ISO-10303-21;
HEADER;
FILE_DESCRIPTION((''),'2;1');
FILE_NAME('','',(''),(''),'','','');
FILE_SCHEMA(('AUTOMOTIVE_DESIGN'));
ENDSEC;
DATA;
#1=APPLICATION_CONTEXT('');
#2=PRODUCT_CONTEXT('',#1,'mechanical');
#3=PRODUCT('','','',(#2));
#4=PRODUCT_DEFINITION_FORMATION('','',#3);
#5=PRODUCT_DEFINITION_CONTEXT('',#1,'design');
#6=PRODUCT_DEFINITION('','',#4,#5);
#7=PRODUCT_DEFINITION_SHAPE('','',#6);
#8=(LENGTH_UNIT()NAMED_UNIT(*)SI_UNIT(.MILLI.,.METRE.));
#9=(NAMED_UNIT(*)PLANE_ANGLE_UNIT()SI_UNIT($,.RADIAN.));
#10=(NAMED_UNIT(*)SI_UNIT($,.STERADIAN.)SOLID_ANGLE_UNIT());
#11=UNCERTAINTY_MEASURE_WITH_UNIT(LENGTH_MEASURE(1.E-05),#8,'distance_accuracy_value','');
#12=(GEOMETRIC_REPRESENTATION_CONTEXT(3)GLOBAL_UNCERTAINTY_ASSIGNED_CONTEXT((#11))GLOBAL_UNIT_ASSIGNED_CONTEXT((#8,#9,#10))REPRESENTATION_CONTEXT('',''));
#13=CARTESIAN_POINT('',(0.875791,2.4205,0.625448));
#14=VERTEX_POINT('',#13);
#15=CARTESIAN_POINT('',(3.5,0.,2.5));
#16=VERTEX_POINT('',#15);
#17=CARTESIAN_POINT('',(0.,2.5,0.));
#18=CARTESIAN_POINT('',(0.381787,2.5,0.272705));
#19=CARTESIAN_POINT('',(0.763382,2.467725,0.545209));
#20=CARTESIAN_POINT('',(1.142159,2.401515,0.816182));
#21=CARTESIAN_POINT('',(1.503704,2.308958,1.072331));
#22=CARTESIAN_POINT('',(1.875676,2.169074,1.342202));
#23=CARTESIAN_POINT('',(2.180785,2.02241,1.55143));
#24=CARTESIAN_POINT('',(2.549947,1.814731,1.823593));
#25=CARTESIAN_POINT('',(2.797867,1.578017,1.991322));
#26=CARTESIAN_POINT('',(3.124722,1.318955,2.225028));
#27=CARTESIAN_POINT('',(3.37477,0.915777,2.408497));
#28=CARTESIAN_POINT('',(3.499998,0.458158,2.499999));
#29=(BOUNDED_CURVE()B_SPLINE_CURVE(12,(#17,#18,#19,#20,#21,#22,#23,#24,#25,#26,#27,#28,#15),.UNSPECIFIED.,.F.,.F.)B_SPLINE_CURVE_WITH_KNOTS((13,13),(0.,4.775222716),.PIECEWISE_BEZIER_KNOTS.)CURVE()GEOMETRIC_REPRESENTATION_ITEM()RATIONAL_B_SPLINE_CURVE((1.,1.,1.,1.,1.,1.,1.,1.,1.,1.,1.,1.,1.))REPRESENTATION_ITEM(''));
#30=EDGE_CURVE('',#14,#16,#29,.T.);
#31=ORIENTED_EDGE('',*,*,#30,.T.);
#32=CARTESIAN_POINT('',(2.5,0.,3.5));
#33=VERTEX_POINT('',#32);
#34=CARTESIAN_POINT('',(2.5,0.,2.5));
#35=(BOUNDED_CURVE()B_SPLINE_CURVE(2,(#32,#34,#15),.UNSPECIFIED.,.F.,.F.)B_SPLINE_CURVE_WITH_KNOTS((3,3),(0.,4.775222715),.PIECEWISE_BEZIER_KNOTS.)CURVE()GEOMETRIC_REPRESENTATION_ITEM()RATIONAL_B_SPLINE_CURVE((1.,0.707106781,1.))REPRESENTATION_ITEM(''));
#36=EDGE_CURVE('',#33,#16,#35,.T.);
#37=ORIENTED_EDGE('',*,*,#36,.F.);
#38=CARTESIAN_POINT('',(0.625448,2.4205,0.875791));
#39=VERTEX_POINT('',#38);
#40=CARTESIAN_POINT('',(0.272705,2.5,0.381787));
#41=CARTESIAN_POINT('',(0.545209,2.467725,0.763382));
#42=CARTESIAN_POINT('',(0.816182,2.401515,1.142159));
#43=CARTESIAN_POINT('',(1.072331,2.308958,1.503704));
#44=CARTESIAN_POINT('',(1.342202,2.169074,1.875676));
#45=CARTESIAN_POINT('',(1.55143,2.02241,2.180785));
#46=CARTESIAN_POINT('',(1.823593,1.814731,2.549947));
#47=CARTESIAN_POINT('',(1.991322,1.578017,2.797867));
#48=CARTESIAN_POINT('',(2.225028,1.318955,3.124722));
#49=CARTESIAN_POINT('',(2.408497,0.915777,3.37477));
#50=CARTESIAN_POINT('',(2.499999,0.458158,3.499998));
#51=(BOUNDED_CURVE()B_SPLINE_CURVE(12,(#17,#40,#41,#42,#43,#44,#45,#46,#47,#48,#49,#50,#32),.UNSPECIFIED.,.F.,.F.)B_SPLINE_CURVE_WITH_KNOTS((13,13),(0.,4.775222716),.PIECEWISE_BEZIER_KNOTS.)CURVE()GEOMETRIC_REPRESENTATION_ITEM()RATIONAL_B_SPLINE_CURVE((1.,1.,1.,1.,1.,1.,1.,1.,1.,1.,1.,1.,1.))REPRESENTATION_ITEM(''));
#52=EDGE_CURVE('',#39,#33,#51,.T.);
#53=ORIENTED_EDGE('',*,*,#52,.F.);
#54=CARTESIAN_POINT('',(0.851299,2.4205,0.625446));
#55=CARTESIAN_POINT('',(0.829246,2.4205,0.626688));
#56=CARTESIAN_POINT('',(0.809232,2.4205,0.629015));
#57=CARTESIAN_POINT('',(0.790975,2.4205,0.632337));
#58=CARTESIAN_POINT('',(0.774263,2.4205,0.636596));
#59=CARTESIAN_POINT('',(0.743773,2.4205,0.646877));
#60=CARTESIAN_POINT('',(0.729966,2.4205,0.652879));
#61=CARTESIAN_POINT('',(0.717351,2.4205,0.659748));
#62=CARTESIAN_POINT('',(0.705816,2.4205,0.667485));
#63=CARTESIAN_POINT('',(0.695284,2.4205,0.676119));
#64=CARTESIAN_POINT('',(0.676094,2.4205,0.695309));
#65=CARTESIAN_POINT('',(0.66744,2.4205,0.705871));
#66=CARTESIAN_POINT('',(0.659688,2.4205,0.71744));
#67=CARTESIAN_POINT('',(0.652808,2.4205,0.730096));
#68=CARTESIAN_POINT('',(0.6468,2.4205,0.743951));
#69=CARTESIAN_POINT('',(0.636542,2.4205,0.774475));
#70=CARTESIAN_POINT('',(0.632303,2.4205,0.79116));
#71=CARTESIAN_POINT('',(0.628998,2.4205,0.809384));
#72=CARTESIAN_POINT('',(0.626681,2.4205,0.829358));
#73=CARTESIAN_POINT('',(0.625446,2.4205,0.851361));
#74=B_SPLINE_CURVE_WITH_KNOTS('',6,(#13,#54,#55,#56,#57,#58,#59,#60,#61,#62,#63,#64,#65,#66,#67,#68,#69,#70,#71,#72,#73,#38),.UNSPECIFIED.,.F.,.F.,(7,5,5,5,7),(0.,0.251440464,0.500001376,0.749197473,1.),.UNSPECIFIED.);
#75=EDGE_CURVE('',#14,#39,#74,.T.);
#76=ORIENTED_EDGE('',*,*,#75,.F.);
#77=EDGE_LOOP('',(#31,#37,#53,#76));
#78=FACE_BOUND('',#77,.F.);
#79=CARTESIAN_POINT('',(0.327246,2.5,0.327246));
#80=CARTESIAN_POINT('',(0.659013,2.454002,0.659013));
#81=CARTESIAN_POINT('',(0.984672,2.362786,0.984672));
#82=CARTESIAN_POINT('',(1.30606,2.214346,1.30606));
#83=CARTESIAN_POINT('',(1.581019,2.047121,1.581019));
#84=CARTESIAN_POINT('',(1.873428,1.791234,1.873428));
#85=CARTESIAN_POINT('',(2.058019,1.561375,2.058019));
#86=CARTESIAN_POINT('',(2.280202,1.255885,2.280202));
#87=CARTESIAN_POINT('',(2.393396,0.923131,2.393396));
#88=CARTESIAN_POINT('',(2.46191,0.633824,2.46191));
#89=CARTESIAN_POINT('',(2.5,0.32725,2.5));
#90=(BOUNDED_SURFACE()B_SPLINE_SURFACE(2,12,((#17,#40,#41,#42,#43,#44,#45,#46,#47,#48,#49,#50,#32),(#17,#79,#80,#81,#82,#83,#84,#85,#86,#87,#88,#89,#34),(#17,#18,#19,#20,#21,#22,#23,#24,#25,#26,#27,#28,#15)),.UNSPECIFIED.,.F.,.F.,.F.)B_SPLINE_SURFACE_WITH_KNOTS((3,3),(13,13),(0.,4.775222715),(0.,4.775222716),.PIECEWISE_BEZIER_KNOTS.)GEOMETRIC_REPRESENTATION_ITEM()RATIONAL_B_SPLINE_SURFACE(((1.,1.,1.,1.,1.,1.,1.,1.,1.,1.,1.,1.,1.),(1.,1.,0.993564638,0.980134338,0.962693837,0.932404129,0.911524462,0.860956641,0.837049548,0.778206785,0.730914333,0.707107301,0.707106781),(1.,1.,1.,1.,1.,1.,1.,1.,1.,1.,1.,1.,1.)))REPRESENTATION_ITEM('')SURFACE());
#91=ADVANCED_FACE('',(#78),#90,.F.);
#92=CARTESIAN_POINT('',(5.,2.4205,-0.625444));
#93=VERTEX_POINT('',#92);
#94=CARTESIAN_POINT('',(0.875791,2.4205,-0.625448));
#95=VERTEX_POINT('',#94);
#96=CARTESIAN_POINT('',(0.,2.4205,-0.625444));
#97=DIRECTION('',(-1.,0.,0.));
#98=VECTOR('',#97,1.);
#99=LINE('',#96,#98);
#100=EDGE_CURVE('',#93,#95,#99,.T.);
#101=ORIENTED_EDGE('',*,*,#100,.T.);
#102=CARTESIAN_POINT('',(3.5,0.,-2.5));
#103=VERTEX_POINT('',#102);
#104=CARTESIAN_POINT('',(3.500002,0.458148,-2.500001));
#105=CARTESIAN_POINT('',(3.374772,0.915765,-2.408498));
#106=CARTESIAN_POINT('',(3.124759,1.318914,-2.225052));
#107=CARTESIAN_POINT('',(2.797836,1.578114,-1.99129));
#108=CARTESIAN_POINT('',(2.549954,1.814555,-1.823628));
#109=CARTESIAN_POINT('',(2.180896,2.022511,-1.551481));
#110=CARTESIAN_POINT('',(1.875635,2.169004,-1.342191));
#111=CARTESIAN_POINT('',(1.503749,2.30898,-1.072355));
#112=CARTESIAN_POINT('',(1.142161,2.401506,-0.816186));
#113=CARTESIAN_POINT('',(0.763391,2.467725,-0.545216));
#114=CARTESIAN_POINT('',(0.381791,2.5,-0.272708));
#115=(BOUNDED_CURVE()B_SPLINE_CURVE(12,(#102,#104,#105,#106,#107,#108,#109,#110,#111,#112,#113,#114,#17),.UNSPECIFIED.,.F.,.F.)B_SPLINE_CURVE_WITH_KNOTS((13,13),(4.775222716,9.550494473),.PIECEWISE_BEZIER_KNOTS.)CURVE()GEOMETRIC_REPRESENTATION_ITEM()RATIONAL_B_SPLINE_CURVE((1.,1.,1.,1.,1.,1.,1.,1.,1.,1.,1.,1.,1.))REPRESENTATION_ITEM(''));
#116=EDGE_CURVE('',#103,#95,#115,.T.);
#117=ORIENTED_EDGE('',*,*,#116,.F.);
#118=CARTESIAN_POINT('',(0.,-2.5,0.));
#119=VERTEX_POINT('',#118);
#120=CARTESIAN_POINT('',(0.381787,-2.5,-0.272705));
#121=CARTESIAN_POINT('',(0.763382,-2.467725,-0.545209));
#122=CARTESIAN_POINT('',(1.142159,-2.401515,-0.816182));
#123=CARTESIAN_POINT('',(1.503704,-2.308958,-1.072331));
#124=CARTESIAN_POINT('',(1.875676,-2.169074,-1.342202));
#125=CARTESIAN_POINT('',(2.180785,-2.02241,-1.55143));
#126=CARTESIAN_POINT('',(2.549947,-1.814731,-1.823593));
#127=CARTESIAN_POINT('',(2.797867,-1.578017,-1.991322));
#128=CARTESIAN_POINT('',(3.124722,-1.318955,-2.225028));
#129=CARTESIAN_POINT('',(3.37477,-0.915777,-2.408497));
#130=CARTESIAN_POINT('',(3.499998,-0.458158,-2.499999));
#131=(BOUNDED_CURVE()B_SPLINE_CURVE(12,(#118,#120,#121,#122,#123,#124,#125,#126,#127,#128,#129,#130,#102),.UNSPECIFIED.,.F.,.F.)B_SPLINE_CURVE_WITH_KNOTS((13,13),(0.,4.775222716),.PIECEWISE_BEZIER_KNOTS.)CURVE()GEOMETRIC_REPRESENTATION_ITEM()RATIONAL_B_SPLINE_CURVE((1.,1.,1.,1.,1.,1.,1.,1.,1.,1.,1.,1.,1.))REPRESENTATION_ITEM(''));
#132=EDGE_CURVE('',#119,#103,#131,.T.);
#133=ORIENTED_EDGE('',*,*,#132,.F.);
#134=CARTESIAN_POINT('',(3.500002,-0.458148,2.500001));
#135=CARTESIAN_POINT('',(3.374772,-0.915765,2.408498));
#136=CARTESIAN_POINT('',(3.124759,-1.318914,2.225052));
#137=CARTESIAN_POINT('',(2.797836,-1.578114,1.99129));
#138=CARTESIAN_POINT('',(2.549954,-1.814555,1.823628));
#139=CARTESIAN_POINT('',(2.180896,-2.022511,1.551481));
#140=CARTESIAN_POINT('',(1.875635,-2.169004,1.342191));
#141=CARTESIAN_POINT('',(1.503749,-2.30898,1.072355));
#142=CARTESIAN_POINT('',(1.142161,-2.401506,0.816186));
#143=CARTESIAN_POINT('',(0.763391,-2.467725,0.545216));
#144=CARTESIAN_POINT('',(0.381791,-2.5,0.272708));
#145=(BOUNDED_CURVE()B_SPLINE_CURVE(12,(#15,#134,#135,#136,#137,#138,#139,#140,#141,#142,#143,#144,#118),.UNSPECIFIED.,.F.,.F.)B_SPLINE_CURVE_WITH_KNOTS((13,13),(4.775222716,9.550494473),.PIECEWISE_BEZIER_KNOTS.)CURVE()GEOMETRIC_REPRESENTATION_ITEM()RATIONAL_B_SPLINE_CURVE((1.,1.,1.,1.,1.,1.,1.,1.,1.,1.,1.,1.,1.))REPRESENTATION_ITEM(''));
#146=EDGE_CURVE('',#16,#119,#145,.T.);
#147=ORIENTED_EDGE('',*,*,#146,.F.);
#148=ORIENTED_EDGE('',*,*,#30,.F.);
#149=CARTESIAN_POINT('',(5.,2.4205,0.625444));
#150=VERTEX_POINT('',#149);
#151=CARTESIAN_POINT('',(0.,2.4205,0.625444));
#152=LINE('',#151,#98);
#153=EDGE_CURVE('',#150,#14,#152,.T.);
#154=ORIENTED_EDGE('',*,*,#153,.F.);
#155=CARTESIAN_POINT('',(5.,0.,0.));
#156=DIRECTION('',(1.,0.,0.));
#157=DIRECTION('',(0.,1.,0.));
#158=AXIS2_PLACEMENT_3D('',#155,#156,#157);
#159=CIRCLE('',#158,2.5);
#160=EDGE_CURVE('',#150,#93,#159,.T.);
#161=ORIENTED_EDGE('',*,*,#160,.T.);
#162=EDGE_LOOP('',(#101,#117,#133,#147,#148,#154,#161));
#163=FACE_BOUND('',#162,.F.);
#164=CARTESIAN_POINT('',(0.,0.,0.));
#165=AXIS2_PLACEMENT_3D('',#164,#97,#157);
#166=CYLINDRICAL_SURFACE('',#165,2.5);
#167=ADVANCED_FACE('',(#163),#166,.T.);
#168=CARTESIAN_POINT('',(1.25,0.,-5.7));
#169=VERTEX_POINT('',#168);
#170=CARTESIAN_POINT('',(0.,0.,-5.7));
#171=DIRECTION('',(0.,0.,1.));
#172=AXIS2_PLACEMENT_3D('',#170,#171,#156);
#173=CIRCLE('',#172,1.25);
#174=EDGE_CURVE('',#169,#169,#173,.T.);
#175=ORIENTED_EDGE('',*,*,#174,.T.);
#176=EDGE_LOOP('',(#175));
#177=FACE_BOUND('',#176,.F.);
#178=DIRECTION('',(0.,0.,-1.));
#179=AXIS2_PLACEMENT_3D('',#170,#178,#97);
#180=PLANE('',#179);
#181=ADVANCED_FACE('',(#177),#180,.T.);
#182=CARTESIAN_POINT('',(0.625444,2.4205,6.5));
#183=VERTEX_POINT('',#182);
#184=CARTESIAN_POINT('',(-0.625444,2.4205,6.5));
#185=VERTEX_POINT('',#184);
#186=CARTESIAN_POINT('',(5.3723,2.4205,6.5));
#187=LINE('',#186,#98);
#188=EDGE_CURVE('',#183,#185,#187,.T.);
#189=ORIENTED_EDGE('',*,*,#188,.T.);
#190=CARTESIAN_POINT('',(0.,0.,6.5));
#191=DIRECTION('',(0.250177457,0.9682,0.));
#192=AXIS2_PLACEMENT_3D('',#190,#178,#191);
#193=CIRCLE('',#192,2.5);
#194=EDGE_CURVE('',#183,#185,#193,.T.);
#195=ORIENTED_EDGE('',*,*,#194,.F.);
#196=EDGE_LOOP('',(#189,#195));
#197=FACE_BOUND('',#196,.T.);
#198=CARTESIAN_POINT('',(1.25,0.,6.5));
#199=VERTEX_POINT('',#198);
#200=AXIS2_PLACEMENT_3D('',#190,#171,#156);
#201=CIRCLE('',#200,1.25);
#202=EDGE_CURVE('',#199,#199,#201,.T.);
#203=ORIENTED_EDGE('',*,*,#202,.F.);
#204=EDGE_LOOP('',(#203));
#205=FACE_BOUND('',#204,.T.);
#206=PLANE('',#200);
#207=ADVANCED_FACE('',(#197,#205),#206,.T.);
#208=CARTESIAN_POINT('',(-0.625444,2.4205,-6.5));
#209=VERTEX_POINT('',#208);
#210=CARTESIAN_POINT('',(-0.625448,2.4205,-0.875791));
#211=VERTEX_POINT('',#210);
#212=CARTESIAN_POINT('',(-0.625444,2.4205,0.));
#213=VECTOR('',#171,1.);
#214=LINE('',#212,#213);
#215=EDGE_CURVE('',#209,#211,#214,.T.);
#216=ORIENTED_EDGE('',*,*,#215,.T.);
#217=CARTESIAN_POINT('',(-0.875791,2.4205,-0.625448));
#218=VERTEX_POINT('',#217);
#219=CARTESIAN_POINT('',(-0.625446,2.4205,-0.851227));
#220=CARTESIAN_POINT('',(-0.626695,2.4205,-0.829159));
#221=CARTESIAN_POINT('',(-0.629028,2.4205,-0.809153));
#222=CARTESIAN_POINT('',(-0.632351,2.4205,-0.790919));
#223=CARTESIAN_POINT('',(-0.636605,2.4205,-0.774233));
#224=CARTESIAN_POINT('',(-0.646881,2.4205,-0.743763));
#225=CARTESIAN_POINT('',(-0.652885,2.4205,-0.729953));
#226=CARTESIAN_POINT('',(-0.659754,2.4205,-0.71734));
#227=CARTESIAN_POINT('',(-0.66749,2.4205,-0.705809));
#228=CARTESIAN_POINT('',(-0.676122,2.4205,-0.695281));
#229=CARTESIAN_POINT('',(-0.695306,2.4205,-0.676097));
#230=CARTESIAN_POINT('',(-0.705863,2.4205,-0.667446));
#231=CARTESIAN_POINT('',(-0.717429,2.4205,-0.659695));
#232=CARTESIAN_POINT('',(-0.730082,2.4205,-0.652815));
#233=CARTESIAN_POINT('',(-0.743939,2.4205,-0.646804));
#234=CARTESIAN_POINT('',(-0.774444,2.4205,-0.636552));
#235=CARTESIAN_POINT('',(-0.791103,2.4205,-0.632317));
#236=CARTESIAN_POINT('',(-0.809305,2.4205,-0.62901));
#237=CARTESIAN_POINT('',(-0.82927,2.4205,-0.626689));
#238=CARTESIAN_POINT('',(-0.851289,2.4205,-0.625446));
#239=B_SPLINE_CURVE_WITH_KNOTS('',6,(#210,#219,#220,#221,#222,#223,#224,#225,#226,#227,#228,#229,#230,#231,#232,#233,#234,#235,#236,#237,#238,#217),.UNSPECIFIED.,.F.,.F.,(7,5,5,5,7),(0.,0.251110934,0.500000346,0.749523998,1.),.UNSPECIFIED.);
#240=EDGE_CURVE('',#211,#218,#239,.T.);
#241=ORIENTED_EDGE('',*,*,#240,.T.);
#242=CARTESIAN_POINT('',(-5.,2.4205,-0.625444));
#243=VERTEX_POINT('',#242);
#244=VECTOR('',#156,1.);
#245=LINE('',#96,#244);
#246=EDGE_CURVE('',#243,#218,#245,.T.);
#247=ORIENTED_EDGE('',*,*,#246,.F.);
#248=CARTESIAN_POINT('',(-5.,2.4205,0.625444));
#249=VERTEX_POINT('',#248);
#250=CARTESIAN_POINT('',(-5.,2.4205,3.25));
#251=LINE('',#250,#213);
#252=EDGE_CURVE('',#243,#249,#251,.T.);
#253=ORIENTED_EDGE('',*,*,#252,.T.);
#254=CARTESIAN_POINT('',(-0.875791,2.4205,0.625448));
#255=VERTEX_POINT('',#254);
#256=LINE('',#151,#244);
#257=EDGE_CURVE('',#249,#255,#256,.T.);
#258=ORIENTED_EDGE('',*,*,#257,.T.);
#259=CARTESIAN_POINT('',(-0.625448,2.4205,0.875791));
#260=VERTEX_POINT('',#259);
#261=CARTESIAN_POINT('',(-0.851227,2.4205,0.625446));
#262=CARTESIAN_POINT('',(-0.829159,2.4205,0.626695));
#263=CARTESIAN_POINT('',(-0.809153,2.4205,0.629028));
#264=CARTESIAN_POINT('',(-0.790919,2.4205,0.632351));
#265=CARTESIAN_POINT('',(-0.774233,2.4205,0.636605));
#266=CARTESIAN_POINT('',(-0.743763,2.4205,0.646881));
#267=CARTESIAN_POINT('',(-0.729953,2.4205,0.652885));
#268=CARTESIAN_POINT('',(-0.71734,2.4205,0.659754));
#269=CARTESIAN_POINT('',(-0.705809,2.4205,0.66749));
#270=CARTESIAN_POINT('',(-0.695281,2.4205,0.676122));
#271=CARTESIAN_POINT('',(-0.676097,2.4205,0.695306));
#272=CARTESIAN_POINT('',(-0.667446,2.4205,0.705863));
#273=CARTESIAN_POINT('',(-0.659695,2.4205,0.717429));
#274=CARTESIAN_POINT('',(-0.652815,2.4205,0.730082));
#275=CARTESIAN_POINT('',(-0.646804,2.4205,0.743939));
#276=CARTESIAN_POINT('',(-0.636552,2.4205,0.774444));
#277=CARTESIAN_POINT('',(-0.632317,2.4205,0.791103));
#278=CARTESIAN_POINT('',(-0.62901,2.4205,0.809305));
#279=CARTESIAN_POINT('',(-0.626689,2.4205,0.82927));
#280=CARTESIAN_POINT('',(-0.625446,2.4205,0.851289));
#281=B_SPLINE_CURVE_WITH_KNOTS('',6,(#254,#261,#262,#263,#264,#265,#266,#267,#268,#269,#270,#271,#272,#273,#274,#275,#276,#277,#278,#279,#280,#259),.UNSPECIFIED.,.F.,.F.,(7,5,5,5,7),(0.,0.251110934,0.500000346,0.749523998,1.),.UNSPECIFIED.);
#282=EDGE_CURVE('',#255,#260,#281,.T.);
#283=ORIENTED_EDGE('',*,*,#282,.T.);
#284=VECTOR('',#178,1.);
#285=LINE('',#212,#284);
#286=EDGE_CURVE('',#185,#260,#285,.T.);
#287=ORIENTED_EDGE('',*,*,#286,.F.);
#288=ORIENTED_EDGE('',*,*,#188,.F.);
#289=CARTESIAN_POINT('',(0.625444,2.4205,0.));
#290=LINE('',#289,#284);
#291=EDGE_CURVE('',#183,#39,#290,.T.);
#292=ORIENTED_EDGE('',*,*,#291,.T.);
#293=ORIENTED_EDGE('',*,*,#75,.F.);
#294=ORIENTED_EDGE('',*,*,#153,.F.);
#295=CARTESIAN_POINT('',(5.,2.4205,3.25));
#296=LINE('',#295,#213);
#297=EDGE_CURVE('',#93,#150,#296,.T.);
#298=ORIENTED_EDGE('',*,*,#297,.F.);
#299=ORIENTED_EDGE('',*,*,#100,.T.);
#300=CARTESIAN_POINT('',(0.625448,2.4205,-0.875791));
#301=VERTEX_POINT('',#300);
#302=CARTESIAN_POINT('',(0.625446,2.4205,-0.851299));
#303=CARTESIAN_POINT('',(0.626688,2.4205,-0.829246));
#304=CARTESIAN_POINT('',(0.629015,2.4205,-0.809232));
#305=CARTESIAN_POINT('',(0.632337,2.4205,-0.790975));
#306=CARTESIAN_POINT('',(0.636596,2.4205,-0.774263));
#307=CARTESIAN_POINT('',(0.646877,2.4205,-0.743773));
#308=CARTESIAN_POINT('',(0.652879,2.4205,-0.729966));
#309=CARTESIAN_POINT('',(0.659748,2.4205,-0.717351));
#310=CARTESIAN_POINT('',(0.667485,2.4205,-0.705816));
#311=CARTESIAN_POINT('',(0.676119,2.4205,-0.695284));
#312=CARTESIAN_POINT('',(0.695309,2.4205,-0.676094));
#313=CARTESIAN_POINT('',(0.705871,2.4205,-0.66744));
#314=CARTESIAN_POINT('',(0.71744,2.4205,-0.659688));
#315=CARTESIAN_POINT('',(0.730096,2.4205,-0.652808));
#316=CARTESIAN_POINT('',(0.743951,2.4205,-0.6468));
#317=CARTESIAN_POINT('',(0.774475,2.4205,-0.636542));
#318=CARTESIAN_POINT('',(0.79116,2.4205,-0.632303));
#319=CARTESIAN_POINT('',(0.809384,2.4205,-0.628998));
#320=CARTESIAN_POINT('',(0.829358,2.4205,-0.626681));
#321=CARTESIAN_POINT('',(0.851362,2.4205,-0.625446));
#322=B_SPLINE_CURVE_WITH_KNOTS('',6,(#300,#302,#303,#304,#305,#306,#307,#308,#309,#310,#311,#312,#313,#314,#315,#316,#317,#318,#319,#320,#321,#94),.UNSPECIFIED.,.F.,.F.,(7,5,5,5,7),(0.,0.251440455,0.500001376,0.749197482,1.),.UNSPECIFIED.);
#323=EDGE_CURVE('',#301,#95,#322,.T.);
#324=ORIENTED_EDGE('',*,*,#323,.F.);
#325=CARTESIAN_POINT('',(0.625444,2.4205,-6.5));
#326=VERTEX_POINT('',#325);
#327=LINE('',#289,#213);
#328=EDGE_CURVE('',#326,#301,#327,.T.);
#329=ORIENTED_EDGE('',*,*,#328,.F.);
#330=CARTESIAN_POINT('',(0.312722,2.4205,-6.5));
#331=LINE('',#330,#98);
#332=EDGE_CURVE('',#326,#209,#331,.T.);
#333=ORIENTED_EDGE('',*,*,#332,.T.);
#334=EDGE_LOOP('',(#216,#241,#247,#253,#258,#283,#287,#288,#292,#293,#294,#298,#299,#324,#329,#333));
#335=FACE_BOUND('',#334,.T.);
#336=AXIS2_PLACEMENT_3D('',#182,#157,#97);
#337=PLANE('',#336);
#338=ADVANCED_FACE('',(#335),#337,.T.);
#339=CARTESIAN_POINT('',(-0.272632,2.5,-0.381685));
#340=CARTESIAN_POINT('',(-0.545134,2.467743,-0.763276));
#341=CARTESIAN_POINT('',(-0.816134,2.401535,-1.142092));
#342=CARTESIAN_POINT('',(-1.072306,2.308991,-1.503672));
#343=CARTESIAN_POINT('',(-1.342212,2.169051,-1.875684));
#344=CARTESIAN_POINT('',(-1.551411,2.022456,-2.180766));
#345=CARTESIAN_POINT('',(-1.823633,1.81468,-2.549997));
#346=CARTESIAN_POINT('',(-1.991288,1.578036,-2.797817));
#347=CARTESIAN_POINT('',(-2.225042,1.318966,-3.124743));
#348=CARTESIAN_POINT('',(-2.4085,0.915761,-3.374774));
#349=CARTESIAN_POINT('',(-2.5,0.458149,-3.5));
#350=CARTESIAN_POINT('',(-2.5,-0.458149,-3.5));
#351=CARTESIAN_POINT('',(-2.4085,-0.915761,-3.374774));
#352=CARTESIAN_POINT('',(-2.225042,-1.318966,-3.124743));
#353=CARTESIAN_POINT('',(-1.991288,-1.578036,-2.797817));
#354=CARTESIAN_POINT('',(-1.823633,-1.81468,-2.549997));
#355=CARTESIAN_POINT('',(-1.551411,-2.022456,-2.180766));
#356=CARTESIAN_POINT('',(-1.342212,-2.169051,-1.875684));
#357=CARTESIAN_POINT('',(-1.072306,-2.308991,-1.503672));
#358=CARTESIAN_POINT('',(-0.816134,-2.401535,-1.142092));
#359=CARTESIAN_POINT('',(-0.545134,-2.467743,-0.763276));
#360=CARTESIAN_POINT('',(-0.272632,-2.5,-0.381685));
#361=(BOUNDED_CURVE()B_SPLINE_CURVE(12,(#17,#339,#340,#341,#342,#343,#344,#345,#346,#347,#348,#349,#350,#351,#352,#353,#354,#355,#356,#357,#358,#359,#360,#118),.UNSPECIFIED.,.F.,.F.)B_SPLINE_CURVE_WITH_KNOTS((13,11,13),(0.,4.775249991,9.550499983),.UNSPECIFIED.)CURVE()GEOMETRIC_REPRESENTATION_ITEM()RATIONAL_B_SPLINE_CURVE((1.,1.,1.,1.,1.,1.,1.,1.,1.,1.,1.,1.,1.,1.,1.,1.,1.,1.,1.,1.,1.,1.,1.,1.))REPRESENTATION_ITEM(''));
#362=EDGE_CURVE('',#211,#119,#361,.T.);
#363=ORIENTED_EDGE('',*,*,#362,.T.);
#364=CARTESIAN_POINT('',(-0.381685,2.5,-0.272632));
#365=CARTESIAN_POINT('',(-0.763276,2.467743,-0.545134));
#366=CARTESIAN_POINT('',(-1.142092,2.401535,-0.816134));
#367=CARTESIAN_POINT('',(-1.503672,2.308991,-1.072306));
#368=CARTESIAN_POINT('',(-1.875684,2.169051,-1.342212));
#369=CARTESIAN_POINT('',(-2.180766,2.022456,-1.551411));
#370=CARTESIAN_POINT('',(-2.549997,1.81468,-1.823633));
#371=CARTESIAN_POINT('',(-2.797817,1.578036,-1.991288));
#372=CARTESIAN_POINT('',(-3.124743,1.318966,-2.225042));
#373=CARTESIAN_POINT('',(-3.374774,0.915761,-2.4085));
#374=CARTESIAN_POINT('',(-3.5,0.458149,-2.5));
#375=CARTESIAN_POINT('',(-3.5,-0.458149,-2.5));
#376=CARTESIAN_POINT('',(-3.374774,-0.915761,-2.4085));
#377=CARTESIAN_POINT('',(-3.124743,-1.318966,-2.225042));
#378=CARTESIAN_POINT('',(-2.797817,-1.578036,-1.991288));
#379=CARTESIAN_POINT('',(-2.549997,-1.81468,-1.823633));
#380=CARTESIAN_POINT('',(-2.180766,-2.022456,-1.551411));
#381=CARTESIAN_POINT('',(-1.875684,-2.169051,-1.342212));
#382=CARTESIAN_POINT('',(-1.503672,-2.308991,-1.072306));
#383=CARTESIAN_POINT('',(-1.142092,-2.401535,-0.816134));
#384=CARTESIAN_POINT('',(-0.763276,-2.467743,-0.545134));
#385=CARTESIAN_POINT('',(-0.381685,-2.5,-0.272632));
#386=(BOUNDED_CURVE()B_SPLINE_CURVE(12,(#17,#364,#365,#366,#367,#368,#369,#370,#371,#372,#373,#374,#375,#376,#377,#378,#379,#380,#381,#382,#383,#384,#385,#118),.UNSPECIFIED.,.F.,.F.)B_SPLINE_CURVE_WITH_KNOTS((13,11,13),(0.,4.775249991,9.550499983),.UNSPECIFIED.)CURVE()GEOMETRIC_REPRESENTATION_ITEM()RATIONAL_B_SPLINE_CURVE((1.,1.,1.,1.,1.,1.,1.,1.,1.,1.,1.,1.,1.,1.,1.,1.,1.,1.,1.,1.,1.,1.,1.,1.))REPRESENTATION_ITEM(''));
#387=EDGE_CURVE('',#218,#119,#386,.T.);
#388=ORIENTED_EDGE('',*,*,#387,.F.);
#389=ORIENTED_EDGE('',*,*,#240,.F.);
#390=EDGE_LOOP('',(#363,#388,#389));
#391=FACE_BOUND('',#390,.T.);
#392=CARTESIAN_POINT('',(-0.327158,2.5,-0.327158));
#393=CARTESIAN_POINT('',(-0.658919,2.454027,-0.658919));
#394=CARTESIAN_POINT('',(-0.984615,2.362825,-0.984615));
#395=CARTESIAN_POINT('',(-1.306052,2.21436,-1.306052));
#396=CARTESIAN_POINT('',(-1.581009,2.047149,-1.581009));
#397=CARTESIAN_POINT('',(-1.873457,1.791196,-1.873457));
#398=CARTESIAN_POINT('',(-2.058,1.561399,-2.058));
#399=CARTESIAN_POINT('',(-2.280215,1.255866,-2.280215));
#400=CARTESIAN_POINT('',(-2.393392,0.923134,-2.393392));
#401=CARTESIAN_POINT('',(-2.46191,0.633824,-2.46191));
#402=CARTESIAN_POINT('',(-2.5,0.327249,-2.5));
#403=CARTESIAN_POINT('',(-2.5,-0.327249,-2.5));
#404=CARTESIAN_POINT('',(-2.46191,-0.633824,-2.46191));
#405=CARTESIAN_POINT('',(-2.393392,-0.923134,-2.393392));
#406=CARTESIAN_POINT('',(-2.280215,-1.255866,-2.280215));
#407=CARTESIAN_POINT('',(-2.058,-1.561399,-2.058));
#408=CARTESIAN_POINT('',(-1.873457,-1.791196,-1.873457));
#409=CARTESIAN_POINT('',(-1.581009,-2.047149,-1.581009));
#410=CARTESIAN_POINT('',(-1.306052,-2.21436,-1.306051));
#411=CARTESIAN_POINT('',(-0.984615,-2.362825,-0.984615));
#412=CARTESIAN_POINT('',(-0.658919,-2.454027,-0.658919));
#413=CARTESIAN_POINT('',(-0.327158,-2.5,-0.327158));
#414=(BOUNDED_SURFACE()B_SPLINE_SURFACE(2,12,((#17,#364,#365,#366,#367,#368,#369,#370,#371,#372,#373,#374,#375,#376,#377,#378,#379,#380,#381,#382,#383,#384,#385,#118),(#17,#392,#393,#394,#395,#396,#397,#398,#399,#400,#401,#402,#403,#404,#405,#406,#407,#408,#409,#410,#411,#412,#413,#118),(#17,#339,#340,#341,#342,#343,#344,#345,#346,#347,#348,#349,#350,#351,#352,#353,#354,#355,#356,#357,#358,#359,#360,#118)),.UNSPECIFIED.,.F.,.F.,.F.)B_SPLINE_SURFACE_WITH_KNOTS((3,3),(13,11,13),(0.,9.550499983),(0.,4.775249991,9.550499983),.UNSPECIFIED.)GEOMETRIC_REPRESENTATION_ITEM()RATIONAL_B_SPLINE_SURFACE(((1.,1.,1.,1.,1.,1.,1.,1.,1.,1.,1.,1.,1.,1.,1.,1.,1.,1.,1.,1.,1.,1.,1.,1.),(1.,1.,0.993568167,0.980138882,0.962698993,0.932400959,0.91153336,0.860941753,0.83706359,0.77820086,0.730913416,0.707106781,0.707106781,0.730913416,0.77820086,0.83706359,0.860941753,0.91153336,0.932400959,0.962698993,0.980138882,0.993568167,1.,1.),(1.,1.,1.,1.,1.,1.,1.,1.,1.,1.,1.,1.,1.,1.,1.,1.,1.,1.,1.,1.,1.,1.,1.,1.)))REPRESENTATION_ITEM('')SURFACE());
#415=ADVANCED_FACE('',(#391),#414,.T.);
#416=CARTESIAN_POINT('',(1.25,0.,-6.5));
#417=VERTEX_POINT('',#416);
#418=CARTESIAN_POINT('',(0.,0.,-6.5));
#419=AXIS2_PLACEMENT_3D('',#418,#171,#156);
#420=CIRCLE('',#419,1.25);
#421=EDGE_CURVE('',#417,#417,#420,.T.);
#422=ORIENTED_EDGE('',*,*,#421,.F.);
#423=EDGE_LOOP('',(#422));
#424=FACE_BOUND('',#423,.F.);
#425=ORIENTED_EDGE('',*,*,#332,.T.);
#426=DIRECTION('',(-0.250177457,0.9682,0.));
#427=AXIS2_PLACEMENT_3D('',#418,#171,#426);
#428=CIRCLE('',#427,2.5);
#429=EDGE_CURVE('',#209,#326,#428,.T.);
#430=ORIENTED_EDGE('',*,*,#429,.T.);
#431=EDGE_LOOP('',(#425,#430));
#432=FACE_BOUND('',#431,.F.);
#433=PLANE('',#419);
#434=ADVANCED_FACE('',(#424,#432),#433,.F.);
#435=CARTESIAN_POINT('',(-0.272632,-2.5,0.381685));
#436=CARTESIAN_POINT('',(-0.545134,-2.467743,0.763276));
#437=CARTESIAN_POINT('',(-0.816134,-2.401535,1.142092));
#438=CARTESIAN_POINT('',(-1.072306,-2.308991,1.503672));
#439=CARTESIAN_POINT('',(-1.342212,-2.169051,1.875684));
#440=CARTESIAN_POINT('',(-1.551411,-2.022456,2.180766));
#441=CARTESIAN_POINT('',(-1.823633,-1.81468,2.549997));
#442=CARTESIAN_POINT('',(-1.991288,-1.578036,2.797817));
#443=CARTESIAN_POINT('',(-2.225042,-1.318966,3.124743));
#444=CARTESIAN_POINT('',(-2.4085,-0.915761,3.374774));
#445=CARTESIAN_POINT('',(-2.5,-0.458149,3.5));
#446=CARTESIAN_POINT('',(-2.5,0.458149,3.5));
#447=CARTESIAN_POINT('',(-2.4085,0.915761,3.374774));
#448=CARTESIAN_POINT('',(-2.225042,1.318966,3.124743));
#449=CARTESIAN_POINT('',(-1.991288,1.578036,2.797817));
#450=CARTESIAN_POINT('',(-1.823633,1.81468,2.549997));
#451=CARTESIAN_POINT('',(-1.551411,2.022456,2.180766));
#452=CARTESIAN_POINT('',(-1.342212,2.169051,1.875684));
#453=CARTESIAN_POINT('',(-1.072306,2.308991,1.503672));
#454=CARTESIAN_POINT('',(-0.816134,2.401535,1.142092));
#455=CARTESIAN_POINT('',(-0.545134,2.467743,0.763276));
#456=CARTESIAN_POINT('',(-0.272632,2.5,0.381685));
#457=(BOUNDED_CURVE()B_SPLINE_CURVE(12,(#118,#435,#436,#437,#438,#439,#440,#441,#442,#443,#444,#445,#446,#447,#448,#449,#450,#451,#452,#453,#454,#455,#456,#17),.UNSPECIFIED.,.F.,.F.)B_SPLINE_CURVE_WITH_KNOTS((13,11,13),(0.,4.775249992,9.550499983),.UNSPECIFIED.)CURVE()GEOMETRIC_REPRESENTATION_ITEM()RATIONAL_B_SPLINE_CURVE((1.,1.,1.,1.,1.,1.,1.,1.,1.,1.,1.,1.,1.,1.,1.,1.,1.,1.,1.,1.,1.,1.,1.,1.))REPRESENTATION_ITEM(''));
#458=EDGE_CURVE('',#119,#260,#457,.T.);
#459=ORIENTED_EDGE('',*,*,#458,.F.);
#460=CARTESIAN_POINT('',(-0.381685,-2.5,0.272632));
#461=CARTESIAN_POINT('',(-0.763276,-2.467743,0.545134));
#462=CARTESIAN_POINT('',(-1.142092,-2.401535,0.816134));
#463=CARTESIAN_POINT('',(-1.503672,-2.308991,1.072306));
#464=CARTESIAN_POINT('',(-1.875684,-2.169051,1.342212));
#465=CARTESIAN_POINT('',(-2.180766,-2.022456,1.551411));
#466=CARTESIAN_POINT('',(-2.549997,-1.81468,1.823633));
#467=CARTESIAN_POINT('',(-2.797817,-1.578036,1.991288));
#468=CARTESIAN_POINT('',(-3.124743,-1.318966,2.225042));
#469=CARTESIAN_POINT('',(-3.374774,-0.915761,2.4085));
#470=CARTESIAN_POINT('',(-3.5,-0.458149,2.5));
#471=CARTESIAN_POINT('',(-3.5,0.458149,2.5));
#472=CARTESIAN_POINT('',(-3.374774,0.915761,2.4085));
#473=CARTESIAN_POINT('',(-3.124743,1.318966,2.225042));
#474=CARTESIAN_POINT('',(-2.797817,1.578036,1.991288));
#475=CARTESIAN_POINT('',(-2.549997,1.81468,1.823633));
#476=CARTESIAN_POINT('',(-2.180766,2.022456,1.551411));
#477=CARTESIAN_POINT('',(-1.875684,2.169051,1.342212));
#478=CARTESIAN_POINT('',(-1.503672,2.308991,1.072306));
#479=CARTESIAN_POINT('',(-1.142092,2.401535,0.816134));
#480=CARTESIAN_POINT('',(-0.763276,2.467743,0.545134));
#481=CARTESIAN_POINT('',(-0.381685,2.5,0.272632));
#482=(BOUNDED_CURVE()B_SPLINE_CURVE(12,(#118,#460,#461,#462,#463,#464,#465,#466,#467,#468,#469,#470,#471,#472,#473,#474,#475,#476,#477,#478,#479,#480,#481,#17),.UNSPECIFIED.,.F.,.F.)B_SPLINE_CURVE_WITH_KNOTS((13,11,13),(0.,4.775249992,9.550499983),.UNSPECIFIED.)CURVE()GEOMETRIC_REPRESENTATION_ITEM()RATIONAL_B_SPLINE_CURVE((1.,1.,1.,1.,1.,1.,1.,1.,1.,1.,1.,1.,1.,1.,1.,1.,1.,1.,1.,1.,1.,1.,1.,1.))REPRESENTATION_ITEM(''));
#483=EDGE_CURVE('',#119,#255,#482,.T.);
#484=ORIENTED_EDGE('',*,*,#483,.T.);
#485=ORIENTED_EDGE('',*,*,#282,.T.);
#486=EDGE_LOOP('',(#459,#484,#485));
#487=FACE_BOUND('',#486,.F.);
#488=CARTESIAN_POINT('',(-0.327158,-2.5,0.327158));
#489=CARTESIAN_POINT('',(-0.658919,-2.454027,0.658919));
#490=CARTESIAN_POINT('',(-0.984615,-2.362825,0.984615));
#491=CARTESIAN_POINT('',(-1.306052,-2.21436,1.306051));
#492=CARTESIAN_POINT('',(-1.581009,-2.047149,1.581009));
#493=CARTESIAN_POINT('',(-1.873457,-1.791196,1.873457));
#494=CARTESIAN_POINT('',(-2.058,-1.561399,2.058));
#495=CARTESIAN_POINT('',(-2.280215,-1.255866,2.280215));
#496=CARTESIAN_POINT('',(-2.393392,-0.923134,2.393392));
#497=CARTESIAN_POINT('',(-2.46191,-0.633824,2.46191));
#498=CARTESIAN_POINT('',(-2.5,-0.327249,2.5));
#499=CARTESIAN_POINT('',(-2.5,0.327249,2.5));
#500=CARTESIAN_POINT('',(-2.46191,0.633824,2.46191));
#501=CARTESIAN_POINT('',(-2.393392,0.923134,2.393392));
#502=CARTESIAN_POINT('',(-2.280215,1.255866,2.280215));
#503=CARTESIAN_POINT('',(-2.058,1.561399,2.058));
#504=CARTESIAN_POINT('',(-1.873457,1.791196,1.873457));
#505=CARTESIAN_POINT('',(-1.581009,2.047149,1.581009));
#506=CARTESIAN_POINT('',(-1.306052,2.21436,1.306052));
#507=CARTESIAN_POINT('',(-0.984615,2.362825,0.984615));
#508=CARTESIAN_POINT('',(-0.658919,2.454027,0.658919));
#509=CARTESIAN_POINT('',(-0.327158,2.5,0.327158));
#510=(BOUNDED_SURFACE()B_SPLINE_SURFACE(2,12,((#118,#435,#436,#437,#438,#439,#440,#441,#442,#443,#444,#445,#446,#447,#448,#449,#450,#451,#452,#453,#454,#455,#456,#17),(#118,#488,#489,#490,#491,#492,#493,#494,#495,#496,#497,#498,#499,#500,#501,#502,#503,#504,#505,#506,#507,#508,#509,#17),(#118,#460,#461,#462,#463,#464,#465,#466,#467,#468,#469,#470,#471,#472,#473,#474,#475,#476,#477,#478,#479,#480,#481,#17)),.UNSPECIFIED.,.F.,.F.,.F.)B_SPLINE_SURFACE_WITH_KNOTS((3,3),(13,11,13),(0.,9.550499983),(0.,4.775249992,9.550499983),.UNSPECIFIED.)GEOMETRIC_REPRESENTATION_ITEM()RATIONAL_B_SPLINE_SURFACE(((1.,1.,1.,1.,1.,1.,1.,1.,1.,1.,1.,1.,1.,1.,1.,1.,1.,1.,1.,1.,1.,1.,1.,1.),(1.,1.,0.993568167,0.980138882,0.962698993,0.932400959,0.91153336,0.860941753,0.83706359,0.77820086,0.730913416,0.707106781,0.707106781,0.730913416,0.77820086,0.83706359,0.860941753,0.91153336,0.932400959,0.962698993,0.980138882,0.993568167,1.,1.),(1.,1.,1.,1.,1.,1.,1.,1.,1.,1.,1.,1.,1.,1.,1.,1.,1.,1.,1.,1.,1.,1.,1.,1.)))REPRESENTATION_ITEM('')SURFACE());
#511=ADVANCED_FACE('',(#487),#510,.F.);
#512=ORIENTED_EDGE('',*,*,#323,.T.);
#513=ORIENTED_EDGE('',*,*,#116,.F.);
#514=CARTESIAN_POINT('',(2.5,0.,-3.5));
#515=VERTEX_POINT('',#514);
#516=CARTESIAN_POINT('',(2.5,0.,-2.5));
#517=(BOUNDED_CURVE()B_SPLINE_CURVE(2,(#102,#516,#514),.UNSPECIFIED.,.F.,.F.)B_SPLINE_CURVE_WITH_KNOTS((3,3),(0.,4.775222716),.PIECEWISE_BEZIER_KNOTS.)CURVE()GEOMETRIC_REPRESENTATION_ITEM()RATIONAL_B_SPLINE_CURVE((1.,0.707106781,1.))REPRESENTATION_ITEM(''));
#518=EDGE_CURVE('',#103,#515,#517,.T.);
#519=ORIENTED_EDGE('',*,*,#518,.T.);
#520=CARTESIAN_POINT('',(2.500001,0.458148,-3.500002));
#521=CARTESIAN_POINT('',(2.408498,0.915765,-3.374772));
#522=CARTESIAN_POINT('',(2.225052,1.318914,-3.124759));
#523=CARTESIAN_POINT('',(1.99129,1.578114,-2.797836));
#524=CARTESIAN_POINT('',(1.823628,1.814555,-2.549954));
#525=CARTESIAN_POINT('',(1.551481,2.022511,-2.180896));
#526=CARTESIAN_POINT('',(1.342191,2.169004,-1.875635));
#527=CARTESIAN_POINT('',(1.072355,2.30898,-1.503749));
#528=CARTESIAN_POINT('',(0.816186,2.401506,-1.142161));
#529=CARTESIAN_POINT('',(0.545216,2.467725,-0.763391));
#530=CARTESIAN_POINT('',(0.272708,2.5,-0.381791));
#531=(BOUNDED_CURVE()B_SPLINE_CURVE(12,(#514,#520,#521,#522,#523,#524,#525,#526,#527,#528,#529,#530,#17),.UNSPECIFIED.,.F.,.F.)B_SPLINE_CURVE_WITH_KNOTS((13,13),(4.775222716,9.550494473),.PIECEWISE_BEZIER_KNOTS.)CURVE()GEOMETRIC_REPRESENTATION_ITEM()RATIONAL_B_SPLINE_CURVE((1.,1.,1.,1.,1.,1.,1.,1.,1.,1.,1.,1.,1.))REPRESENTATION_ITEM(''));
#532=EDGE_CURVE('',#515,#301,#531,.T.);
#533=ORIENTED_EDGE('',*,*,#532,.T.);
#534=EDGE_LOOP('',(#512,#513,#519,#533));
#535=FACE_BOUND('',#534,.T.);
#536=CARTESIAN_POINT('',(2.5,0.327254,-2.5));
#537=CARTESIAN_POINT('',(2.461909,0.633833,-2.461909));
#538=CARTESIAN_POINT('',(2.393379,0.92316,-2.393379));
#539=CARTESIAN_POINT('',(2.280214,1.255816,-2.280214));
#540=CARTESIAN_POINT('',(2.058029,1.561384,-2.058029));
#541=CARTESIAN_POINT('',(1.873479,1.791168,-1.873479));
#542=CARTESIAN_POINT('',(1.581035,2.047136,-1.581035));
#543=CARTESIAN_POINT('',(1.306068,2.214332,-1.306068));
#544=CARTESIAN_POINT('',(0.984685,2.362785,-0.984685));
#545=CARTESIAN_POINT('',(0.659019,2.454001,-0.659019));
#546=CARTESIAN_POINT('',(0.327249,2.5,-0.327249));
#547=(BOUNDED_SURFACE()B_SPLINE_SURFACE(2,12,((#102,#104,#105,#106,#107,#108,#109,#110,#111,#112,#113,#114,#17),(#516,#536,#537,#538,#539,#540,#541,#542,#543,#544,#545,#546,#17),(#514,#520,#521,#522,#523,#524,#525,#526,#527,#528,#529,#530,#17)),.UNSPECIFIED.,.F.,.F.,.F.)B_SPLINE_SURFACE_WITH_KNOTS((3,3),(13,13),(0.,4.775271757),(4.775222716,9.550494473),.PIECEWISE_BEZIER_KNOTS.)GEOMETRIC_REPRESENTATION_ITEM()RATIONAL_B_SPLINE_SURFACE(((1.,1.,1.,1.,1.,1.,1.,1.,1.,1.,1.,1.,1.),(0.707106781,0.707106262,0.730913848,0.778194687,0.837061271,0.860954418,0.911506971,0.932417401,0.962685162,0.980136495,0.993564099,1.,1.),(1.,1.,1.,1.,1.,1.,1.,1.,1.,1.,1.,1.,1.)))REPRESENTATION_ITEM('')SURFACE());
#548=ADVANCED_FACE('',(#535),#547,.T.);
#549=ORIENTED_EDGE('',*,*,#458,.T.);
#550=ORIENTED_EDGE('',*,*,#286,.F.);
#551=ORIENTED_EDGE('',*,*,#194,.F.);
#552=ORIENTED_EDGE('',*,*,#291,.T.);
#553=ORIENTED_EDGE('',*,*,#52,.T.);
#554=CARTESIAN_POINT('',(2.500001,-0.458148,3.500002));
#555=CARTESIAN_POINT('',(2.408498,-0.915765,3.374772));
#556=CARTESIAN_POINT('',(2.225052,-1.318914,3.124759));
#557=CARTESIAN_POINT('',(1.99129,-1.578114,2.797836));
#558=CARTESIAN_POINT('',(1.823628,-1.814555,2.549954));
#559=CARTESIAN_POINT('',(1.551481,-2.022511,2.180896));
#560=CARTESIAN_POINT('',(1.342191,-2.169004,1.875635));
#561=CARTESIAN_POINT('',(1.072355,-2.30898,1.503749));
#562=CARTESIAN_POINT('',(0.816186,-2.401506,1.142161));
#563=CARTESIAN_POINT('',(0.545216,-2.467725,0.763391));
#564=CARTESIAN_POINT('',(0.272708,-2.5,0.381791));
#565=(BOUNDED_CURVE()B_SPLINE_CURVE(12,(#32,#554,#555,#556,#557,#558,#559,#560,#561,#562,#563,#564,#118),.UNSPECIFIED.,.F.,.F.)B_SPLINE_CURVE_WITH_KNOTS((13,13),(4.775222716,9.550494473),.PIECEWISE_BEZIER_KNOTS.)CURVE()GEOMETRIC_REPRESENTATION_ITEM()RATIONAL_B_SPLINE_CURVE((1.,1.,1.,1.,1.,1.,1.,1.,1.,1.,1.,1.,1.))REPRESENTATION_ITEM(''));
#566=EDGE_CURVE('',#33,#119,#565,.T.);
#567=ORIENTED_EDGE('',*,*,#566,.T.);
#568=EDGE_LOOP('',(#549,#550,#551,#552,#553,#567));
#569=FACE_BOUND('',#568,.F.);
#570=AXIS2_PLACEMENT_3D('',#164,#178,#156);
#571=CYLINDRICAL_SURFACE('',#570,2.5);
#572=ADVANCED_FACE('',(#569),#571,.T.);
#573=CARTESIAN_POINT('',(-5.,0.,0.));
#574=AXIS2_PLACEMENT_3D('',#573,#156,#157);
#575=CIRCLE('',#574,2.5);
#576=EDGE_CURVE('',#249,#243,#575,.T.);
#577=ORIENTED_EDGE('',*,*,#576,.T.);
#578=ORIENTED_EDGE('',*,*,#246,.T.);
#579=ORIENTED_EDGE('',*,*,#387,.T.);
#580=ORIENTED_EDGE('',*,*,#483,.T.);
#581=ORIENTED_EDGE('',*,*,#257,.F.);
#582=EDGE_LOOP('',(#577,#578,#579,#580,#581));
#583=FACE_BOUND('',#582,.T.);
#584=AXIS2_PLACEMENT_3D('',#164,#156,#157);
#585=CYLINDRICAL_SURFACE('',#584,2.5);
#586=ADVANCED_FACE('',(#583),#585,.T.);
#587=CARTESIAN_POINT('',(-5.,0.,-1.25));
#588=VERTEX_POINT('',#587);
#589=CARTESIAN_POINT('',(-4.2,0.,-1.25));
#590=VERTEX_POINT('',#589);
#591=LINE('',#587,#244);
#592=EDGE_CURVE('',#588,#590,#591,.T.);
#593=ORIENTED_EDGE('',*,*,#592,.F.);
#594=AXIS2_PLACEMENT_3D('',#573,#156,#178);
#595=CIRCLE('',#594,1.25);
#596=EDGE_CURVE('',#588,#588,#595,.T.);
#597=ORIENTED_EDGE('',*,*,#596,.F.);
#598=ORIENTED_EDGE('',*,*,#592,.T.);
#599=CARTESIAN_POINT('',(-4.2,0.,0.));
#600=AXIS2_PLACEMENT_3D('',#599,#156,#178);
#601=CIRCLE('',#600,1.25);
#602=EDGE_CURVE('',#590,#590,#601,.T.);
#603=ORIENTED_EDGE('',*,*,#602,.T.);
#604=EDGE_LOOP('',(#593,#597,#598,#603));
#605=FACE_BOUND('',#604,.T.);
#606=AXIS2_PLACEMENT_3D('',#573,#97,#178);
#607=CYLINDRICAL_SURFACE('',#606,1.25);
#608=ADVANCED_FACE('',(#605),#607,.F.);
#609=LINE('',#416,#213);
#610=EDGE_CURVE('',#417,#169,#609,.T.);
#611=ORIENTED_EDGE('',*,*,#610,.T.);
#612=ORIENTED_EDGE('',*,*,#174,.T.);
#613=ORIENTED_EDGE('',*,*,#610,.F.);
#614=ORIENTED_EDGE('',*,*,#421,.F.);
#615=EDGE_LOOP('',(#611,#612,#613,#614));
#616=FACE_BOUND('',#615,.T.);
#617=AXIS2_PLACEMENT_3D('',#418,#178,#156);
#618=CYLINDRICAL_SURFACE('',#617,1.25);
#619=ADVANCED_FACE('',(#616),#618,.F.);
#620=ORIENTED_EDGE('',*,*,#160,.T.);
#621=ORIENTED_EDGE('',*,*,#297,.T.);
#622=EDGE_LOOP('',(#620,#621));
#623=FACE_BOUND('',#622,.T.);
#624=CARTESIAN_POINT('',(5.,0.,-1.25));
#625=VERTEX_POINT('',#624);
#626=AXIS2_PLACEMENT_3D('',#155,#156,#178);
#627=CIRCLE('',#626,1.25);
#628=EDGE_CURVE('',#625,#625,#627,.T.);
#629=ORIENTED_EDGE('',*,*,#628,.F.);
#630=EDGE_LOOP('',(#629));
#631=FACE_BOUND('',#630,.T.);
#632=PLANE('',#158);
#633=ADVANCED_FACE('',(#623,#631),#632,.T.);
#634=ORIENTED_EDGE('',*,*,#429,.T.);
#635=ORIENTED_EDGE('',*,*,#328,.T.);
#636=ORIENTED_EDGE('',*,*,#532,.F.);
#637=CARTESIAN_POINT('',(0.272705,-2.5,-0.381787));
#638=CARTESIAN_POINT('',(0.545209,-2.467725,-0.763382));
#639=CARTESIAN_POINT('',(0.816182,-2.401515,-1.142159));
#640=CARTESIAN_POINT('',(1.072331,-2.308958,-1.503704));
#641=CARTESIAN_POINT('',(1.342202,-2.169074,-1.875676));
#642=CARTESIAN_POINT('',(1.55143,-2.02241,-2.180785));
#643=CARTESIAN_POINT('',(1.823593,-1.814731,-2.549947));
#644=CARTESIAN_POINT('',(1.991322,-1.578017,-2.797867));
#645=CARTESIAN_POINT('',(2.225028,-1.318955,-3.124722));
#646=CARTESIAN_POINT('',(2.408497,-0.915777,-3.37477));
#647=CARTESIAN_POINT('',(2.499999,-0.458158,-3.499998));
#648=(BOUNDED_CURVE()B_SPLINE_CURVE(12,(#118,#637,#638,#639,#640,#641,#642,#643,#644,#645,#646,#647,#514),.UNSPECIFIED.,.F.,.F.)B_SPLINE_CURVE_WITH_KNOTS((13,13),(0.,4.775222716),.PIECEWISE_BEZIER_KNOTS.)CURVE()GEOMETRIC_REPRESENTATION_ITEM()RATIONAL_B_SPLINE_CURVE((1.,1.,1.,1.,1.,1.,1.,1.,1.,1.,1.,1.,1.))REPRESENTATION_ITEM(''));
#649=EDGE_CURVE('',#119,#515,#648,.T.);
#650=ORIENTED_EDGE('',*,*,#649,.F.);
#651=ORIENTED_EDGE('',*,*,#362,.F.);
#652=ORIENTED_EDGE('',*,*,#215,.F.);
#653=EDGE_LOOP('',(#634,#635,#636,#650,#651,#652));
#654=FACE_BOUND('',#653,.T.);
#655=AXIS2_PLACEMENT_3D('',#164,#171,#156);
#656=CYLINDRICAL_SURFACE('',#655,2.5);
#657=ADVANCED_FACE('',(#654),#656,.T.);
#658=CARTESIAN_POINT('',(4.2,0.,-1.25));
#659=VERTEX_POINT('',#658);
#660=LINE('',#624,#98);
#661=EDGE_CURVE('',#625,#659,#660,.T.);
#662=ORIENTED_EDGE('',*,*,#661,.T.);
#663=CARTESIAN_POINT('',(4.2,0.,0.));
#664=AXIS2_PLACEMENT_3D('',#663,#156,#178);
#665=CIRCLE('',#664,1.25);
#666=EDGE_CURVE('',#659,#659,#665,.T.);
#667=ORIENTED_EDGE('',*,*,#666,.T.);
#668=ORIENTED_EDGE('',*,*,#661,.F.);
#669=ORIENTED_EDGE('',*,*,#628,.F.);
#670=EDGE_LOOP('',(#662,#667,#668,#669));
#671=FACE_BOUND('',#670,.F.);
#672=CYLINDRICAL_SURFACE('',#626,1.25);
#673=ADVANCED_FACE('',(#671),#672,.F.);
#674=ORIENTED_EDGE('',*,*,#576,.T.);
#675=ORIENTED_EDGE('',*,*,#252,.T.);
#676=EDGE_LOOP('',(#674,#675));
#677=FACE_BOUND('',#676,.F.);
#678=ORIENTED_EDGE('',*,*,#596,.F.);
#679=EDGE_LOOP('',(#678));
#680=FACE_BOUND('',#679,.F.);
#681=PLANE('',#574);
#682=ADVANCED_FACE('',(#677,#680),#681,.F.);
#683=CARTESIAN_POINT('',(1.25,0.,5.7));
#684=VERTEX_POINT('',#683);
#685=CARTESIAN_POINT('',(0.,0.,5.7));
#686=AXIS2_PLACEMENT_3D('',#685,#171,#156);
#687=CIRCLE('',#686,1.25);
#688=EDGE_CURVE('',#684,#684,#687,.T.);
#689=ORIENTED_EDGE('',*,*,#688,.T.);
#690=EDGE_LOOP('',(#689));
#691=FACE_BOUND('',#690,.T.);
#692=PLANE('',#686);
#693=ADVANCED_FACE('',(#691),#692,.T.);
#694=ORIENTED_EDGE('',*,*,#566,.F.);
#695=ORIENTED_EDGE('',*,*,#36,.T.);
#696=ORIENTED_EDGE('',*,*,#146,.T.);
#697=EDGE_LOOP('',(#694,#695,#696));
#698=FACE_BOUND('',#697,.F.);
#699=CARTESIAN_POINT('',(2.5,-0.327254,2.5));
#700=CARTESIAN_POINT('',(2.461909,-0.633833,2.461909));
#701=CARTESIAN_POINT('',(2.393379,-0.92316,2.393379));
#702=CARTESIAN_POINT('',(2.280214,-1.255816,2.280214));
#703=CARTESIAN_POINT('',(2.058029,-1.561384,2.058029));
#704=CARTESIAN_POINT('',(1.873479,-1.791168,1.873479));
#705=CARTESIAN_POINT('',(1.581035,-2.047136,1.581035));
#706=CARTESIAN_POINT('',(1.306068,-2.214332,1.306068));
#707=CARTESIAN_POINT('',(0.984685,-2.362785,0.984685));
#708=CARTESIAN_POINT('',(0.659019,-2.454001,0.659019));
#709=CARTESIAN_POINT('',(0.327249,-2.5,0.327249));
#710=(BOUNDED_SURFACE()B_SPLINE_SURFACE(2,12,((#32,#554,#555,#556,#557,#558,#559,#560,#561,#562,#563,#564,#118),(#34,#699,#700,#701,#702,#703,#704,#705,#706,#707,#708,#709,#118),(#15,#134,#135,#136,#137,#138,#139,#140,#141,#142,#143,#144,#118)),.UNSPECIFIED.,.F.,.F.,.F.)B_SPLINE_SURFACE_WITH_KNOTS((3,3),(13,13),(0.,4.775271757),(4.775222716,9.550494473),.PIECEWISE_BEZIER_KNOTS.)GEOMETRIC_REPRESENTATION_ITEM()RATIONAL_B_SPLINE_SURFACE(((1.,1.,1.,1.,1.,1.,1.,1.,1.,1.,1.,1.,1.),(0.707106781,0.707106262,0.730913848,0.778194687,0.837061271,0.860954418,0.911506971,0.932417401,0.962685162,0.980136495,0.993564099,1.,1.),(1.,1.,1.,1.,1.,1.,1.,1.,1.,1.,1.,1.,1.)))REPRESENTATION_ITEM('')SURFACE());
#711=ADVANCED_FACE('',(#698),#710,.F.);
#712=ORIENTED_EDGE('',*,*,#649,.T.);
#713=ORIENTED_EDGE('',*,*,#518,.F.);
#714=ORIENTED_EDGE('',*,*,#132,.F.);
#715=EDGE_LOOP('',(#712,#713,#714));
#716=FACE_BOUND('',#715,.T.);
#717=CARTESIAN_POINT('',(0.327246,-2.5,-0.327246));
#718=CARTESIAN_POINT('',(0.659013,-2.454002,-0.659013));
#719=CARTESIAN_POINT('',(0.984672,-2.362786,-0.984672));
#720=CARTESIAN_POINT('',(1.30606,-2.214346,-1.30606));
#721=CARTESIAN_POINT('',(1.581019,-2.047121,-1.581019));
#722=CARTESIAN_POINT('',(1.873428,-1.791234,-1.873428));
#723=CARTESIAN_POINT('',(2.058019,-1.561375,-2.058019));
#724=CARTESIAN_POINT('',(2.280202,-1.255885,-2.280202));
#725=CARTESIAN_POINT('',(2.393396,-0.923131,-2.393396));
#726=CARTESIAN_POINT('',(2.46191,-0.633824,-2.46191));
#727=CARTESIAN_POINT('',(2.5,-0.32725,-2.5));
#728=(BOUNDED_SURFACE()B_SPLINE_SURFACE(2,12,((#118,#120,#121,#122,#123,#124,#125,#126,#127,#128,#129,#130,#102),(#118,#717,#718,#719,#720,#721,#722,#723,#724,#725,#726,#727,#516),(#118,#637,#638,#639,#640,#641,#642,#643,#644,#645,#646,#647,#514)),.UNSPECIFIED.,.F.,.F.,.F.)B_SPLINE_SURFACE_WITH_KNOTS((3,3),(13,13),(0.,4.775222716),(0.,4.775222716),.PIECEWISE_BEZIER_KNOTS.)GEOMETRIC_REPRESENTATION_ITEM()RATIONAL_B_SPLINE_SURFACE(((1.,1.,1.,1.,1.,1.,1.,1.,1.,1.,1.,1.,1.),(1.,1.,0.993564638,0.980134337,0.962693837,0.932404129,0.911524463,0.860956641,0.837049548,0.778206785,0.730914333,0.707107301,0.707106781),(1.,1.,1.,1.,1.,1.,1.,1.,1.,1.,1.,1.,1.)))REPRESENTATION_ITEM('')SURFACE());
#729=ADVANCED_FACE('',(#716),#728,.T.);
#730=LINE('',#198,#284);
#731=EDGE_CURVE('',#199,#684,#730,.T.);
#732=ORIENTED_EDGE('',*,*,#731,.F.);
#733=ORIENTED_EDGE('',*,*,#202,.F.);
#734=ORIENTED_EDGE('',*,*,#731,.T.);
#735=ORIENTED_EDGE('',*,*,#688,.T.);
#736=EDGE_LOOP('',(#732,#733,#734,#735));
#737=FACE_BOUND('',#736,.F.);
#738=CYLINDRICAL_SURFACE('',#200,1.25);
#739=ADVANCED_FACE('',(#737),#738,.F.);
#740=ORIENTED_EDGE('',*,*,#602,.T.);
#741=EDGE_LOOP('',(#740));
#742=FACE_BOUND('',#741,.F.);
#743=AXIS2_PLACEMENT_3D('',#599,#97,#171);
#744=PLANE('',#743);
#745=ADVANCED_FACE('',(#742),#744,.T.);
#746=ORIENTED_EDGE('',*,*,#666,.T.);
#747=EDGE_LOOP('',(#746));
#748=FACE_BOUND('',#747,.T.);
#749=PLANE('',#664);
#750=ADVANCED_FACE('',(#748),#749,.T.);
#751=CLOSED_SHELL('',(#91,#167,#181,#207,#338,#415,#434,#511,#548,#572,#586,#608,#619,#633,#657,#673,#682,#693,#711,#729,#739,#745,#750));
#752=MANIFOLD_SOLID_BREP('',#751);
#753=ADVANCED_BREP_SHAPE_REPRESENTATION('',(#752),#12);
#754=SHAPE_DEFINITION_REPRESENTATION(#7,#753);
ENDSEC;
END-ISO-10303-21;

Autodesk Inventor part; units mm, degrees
ref_plane "YZ Plane" through (0, 0, 0) normal (1, 0, 0) x (0, 1, 0)
ref_plane "XZ Plane" through (0, 0, 0) normal (0, 1, 0) x (-1, 0, 0)
ref_plane "XY Plane" through (0, 0, 0) normal (0, 0, 1) x (1, 0, 0)
sketch "Sketch1" plane through (0, 0, 0) normal (0, 0, 1) x (1, 0, 0)
  circle A0 centre (0, 0) radius 2.5
  dimension "d0" = 5
extrude "Extrusion1" add sketch "Sketch1" along normal mid plane 13
sketch "Sketch2" plane through (0, 0, 6.5) normal (0, 0, 1) x (1, 0, 0)
  circle A0 centre (0, 0) radius 1.25
  dimension "d3" = 2.5
extrude "Extrusion2" cut sketch "Sketch2" against normal blind 0.8
mirror "Mirror1" about plane through (0, 0, 0) normal (0, 0, 1) of "Extrusion2"
sketch "Sketch3" plane through (0, 0, 0) normal (1, 0, 0) x (0, 1, 0)
  circle A0 centre (0, 0) radius 2.5
  dimension "d6" = 5
extrude "Extrusion3" add sketch "Sketch3" along normal mid plane 10
sketch "Sketch4" plane through (5, 0, 0) normal (1, 0, 0) x (0, 0, -1)
  circle A0 centre (0, 0) radius 1.25
  dimension "d9" = 2.5
extrude "Extrusion4" cut sketch "Sketch4" against normal blind 0.8
mirror "Mirror2" about plane through (0, 0, 0) normal (1, 0, 0) of "Extrusion4"
fillet "Fillet1" radius 1 6 edges at (1.7678, 1.7678, 1.7678) (-2.5, 0, 2.5) (1.7678, -1.7678, 1.7678) (1.7678, -1.7678, -1.7678) (1.7678, 1.7678, -1.7678) (-2.5, 0, -2.5)
sketch "Sketch5" plane through (0, 0, 6.5) normal (0, 0, 1) x (1, 0, 0)
  circle A0 centre (0, 0) radius 2.5 projected
  line L0 (0, 2.5) -> (5.3723, 2.5)
  line L1 (5.3723, 2.5) -> (5.3723, 2.4205)
  line L2 (5.3723, 2.4205) -> (0, 2.4205)
  line L3 (0, 2.4205) -> (0, 2.5)
  line L4 (0, 2.5) -> (-5.4474, 2.5)
  line L5 (-5.4474, 2.5) -> (-5.4474, 2.4205)
  line L6 (-5.4474, 2.4205) -> (0, 2.4205)
  line L7 (0, 2.4205) -> (0, 2.5)
extrude "Extrusion5" cut sketch "Sketch5" against normal through all contours L2 L3 A0 | A0 L0 L1 L2 | L6 L5 L4 A0 | A0 L3 L6
ref_plane "Work Plane1" through (0, 0, 0) normal (0, 0, 1) x (1, 0, 0)
properties part number "_3DPrint"
